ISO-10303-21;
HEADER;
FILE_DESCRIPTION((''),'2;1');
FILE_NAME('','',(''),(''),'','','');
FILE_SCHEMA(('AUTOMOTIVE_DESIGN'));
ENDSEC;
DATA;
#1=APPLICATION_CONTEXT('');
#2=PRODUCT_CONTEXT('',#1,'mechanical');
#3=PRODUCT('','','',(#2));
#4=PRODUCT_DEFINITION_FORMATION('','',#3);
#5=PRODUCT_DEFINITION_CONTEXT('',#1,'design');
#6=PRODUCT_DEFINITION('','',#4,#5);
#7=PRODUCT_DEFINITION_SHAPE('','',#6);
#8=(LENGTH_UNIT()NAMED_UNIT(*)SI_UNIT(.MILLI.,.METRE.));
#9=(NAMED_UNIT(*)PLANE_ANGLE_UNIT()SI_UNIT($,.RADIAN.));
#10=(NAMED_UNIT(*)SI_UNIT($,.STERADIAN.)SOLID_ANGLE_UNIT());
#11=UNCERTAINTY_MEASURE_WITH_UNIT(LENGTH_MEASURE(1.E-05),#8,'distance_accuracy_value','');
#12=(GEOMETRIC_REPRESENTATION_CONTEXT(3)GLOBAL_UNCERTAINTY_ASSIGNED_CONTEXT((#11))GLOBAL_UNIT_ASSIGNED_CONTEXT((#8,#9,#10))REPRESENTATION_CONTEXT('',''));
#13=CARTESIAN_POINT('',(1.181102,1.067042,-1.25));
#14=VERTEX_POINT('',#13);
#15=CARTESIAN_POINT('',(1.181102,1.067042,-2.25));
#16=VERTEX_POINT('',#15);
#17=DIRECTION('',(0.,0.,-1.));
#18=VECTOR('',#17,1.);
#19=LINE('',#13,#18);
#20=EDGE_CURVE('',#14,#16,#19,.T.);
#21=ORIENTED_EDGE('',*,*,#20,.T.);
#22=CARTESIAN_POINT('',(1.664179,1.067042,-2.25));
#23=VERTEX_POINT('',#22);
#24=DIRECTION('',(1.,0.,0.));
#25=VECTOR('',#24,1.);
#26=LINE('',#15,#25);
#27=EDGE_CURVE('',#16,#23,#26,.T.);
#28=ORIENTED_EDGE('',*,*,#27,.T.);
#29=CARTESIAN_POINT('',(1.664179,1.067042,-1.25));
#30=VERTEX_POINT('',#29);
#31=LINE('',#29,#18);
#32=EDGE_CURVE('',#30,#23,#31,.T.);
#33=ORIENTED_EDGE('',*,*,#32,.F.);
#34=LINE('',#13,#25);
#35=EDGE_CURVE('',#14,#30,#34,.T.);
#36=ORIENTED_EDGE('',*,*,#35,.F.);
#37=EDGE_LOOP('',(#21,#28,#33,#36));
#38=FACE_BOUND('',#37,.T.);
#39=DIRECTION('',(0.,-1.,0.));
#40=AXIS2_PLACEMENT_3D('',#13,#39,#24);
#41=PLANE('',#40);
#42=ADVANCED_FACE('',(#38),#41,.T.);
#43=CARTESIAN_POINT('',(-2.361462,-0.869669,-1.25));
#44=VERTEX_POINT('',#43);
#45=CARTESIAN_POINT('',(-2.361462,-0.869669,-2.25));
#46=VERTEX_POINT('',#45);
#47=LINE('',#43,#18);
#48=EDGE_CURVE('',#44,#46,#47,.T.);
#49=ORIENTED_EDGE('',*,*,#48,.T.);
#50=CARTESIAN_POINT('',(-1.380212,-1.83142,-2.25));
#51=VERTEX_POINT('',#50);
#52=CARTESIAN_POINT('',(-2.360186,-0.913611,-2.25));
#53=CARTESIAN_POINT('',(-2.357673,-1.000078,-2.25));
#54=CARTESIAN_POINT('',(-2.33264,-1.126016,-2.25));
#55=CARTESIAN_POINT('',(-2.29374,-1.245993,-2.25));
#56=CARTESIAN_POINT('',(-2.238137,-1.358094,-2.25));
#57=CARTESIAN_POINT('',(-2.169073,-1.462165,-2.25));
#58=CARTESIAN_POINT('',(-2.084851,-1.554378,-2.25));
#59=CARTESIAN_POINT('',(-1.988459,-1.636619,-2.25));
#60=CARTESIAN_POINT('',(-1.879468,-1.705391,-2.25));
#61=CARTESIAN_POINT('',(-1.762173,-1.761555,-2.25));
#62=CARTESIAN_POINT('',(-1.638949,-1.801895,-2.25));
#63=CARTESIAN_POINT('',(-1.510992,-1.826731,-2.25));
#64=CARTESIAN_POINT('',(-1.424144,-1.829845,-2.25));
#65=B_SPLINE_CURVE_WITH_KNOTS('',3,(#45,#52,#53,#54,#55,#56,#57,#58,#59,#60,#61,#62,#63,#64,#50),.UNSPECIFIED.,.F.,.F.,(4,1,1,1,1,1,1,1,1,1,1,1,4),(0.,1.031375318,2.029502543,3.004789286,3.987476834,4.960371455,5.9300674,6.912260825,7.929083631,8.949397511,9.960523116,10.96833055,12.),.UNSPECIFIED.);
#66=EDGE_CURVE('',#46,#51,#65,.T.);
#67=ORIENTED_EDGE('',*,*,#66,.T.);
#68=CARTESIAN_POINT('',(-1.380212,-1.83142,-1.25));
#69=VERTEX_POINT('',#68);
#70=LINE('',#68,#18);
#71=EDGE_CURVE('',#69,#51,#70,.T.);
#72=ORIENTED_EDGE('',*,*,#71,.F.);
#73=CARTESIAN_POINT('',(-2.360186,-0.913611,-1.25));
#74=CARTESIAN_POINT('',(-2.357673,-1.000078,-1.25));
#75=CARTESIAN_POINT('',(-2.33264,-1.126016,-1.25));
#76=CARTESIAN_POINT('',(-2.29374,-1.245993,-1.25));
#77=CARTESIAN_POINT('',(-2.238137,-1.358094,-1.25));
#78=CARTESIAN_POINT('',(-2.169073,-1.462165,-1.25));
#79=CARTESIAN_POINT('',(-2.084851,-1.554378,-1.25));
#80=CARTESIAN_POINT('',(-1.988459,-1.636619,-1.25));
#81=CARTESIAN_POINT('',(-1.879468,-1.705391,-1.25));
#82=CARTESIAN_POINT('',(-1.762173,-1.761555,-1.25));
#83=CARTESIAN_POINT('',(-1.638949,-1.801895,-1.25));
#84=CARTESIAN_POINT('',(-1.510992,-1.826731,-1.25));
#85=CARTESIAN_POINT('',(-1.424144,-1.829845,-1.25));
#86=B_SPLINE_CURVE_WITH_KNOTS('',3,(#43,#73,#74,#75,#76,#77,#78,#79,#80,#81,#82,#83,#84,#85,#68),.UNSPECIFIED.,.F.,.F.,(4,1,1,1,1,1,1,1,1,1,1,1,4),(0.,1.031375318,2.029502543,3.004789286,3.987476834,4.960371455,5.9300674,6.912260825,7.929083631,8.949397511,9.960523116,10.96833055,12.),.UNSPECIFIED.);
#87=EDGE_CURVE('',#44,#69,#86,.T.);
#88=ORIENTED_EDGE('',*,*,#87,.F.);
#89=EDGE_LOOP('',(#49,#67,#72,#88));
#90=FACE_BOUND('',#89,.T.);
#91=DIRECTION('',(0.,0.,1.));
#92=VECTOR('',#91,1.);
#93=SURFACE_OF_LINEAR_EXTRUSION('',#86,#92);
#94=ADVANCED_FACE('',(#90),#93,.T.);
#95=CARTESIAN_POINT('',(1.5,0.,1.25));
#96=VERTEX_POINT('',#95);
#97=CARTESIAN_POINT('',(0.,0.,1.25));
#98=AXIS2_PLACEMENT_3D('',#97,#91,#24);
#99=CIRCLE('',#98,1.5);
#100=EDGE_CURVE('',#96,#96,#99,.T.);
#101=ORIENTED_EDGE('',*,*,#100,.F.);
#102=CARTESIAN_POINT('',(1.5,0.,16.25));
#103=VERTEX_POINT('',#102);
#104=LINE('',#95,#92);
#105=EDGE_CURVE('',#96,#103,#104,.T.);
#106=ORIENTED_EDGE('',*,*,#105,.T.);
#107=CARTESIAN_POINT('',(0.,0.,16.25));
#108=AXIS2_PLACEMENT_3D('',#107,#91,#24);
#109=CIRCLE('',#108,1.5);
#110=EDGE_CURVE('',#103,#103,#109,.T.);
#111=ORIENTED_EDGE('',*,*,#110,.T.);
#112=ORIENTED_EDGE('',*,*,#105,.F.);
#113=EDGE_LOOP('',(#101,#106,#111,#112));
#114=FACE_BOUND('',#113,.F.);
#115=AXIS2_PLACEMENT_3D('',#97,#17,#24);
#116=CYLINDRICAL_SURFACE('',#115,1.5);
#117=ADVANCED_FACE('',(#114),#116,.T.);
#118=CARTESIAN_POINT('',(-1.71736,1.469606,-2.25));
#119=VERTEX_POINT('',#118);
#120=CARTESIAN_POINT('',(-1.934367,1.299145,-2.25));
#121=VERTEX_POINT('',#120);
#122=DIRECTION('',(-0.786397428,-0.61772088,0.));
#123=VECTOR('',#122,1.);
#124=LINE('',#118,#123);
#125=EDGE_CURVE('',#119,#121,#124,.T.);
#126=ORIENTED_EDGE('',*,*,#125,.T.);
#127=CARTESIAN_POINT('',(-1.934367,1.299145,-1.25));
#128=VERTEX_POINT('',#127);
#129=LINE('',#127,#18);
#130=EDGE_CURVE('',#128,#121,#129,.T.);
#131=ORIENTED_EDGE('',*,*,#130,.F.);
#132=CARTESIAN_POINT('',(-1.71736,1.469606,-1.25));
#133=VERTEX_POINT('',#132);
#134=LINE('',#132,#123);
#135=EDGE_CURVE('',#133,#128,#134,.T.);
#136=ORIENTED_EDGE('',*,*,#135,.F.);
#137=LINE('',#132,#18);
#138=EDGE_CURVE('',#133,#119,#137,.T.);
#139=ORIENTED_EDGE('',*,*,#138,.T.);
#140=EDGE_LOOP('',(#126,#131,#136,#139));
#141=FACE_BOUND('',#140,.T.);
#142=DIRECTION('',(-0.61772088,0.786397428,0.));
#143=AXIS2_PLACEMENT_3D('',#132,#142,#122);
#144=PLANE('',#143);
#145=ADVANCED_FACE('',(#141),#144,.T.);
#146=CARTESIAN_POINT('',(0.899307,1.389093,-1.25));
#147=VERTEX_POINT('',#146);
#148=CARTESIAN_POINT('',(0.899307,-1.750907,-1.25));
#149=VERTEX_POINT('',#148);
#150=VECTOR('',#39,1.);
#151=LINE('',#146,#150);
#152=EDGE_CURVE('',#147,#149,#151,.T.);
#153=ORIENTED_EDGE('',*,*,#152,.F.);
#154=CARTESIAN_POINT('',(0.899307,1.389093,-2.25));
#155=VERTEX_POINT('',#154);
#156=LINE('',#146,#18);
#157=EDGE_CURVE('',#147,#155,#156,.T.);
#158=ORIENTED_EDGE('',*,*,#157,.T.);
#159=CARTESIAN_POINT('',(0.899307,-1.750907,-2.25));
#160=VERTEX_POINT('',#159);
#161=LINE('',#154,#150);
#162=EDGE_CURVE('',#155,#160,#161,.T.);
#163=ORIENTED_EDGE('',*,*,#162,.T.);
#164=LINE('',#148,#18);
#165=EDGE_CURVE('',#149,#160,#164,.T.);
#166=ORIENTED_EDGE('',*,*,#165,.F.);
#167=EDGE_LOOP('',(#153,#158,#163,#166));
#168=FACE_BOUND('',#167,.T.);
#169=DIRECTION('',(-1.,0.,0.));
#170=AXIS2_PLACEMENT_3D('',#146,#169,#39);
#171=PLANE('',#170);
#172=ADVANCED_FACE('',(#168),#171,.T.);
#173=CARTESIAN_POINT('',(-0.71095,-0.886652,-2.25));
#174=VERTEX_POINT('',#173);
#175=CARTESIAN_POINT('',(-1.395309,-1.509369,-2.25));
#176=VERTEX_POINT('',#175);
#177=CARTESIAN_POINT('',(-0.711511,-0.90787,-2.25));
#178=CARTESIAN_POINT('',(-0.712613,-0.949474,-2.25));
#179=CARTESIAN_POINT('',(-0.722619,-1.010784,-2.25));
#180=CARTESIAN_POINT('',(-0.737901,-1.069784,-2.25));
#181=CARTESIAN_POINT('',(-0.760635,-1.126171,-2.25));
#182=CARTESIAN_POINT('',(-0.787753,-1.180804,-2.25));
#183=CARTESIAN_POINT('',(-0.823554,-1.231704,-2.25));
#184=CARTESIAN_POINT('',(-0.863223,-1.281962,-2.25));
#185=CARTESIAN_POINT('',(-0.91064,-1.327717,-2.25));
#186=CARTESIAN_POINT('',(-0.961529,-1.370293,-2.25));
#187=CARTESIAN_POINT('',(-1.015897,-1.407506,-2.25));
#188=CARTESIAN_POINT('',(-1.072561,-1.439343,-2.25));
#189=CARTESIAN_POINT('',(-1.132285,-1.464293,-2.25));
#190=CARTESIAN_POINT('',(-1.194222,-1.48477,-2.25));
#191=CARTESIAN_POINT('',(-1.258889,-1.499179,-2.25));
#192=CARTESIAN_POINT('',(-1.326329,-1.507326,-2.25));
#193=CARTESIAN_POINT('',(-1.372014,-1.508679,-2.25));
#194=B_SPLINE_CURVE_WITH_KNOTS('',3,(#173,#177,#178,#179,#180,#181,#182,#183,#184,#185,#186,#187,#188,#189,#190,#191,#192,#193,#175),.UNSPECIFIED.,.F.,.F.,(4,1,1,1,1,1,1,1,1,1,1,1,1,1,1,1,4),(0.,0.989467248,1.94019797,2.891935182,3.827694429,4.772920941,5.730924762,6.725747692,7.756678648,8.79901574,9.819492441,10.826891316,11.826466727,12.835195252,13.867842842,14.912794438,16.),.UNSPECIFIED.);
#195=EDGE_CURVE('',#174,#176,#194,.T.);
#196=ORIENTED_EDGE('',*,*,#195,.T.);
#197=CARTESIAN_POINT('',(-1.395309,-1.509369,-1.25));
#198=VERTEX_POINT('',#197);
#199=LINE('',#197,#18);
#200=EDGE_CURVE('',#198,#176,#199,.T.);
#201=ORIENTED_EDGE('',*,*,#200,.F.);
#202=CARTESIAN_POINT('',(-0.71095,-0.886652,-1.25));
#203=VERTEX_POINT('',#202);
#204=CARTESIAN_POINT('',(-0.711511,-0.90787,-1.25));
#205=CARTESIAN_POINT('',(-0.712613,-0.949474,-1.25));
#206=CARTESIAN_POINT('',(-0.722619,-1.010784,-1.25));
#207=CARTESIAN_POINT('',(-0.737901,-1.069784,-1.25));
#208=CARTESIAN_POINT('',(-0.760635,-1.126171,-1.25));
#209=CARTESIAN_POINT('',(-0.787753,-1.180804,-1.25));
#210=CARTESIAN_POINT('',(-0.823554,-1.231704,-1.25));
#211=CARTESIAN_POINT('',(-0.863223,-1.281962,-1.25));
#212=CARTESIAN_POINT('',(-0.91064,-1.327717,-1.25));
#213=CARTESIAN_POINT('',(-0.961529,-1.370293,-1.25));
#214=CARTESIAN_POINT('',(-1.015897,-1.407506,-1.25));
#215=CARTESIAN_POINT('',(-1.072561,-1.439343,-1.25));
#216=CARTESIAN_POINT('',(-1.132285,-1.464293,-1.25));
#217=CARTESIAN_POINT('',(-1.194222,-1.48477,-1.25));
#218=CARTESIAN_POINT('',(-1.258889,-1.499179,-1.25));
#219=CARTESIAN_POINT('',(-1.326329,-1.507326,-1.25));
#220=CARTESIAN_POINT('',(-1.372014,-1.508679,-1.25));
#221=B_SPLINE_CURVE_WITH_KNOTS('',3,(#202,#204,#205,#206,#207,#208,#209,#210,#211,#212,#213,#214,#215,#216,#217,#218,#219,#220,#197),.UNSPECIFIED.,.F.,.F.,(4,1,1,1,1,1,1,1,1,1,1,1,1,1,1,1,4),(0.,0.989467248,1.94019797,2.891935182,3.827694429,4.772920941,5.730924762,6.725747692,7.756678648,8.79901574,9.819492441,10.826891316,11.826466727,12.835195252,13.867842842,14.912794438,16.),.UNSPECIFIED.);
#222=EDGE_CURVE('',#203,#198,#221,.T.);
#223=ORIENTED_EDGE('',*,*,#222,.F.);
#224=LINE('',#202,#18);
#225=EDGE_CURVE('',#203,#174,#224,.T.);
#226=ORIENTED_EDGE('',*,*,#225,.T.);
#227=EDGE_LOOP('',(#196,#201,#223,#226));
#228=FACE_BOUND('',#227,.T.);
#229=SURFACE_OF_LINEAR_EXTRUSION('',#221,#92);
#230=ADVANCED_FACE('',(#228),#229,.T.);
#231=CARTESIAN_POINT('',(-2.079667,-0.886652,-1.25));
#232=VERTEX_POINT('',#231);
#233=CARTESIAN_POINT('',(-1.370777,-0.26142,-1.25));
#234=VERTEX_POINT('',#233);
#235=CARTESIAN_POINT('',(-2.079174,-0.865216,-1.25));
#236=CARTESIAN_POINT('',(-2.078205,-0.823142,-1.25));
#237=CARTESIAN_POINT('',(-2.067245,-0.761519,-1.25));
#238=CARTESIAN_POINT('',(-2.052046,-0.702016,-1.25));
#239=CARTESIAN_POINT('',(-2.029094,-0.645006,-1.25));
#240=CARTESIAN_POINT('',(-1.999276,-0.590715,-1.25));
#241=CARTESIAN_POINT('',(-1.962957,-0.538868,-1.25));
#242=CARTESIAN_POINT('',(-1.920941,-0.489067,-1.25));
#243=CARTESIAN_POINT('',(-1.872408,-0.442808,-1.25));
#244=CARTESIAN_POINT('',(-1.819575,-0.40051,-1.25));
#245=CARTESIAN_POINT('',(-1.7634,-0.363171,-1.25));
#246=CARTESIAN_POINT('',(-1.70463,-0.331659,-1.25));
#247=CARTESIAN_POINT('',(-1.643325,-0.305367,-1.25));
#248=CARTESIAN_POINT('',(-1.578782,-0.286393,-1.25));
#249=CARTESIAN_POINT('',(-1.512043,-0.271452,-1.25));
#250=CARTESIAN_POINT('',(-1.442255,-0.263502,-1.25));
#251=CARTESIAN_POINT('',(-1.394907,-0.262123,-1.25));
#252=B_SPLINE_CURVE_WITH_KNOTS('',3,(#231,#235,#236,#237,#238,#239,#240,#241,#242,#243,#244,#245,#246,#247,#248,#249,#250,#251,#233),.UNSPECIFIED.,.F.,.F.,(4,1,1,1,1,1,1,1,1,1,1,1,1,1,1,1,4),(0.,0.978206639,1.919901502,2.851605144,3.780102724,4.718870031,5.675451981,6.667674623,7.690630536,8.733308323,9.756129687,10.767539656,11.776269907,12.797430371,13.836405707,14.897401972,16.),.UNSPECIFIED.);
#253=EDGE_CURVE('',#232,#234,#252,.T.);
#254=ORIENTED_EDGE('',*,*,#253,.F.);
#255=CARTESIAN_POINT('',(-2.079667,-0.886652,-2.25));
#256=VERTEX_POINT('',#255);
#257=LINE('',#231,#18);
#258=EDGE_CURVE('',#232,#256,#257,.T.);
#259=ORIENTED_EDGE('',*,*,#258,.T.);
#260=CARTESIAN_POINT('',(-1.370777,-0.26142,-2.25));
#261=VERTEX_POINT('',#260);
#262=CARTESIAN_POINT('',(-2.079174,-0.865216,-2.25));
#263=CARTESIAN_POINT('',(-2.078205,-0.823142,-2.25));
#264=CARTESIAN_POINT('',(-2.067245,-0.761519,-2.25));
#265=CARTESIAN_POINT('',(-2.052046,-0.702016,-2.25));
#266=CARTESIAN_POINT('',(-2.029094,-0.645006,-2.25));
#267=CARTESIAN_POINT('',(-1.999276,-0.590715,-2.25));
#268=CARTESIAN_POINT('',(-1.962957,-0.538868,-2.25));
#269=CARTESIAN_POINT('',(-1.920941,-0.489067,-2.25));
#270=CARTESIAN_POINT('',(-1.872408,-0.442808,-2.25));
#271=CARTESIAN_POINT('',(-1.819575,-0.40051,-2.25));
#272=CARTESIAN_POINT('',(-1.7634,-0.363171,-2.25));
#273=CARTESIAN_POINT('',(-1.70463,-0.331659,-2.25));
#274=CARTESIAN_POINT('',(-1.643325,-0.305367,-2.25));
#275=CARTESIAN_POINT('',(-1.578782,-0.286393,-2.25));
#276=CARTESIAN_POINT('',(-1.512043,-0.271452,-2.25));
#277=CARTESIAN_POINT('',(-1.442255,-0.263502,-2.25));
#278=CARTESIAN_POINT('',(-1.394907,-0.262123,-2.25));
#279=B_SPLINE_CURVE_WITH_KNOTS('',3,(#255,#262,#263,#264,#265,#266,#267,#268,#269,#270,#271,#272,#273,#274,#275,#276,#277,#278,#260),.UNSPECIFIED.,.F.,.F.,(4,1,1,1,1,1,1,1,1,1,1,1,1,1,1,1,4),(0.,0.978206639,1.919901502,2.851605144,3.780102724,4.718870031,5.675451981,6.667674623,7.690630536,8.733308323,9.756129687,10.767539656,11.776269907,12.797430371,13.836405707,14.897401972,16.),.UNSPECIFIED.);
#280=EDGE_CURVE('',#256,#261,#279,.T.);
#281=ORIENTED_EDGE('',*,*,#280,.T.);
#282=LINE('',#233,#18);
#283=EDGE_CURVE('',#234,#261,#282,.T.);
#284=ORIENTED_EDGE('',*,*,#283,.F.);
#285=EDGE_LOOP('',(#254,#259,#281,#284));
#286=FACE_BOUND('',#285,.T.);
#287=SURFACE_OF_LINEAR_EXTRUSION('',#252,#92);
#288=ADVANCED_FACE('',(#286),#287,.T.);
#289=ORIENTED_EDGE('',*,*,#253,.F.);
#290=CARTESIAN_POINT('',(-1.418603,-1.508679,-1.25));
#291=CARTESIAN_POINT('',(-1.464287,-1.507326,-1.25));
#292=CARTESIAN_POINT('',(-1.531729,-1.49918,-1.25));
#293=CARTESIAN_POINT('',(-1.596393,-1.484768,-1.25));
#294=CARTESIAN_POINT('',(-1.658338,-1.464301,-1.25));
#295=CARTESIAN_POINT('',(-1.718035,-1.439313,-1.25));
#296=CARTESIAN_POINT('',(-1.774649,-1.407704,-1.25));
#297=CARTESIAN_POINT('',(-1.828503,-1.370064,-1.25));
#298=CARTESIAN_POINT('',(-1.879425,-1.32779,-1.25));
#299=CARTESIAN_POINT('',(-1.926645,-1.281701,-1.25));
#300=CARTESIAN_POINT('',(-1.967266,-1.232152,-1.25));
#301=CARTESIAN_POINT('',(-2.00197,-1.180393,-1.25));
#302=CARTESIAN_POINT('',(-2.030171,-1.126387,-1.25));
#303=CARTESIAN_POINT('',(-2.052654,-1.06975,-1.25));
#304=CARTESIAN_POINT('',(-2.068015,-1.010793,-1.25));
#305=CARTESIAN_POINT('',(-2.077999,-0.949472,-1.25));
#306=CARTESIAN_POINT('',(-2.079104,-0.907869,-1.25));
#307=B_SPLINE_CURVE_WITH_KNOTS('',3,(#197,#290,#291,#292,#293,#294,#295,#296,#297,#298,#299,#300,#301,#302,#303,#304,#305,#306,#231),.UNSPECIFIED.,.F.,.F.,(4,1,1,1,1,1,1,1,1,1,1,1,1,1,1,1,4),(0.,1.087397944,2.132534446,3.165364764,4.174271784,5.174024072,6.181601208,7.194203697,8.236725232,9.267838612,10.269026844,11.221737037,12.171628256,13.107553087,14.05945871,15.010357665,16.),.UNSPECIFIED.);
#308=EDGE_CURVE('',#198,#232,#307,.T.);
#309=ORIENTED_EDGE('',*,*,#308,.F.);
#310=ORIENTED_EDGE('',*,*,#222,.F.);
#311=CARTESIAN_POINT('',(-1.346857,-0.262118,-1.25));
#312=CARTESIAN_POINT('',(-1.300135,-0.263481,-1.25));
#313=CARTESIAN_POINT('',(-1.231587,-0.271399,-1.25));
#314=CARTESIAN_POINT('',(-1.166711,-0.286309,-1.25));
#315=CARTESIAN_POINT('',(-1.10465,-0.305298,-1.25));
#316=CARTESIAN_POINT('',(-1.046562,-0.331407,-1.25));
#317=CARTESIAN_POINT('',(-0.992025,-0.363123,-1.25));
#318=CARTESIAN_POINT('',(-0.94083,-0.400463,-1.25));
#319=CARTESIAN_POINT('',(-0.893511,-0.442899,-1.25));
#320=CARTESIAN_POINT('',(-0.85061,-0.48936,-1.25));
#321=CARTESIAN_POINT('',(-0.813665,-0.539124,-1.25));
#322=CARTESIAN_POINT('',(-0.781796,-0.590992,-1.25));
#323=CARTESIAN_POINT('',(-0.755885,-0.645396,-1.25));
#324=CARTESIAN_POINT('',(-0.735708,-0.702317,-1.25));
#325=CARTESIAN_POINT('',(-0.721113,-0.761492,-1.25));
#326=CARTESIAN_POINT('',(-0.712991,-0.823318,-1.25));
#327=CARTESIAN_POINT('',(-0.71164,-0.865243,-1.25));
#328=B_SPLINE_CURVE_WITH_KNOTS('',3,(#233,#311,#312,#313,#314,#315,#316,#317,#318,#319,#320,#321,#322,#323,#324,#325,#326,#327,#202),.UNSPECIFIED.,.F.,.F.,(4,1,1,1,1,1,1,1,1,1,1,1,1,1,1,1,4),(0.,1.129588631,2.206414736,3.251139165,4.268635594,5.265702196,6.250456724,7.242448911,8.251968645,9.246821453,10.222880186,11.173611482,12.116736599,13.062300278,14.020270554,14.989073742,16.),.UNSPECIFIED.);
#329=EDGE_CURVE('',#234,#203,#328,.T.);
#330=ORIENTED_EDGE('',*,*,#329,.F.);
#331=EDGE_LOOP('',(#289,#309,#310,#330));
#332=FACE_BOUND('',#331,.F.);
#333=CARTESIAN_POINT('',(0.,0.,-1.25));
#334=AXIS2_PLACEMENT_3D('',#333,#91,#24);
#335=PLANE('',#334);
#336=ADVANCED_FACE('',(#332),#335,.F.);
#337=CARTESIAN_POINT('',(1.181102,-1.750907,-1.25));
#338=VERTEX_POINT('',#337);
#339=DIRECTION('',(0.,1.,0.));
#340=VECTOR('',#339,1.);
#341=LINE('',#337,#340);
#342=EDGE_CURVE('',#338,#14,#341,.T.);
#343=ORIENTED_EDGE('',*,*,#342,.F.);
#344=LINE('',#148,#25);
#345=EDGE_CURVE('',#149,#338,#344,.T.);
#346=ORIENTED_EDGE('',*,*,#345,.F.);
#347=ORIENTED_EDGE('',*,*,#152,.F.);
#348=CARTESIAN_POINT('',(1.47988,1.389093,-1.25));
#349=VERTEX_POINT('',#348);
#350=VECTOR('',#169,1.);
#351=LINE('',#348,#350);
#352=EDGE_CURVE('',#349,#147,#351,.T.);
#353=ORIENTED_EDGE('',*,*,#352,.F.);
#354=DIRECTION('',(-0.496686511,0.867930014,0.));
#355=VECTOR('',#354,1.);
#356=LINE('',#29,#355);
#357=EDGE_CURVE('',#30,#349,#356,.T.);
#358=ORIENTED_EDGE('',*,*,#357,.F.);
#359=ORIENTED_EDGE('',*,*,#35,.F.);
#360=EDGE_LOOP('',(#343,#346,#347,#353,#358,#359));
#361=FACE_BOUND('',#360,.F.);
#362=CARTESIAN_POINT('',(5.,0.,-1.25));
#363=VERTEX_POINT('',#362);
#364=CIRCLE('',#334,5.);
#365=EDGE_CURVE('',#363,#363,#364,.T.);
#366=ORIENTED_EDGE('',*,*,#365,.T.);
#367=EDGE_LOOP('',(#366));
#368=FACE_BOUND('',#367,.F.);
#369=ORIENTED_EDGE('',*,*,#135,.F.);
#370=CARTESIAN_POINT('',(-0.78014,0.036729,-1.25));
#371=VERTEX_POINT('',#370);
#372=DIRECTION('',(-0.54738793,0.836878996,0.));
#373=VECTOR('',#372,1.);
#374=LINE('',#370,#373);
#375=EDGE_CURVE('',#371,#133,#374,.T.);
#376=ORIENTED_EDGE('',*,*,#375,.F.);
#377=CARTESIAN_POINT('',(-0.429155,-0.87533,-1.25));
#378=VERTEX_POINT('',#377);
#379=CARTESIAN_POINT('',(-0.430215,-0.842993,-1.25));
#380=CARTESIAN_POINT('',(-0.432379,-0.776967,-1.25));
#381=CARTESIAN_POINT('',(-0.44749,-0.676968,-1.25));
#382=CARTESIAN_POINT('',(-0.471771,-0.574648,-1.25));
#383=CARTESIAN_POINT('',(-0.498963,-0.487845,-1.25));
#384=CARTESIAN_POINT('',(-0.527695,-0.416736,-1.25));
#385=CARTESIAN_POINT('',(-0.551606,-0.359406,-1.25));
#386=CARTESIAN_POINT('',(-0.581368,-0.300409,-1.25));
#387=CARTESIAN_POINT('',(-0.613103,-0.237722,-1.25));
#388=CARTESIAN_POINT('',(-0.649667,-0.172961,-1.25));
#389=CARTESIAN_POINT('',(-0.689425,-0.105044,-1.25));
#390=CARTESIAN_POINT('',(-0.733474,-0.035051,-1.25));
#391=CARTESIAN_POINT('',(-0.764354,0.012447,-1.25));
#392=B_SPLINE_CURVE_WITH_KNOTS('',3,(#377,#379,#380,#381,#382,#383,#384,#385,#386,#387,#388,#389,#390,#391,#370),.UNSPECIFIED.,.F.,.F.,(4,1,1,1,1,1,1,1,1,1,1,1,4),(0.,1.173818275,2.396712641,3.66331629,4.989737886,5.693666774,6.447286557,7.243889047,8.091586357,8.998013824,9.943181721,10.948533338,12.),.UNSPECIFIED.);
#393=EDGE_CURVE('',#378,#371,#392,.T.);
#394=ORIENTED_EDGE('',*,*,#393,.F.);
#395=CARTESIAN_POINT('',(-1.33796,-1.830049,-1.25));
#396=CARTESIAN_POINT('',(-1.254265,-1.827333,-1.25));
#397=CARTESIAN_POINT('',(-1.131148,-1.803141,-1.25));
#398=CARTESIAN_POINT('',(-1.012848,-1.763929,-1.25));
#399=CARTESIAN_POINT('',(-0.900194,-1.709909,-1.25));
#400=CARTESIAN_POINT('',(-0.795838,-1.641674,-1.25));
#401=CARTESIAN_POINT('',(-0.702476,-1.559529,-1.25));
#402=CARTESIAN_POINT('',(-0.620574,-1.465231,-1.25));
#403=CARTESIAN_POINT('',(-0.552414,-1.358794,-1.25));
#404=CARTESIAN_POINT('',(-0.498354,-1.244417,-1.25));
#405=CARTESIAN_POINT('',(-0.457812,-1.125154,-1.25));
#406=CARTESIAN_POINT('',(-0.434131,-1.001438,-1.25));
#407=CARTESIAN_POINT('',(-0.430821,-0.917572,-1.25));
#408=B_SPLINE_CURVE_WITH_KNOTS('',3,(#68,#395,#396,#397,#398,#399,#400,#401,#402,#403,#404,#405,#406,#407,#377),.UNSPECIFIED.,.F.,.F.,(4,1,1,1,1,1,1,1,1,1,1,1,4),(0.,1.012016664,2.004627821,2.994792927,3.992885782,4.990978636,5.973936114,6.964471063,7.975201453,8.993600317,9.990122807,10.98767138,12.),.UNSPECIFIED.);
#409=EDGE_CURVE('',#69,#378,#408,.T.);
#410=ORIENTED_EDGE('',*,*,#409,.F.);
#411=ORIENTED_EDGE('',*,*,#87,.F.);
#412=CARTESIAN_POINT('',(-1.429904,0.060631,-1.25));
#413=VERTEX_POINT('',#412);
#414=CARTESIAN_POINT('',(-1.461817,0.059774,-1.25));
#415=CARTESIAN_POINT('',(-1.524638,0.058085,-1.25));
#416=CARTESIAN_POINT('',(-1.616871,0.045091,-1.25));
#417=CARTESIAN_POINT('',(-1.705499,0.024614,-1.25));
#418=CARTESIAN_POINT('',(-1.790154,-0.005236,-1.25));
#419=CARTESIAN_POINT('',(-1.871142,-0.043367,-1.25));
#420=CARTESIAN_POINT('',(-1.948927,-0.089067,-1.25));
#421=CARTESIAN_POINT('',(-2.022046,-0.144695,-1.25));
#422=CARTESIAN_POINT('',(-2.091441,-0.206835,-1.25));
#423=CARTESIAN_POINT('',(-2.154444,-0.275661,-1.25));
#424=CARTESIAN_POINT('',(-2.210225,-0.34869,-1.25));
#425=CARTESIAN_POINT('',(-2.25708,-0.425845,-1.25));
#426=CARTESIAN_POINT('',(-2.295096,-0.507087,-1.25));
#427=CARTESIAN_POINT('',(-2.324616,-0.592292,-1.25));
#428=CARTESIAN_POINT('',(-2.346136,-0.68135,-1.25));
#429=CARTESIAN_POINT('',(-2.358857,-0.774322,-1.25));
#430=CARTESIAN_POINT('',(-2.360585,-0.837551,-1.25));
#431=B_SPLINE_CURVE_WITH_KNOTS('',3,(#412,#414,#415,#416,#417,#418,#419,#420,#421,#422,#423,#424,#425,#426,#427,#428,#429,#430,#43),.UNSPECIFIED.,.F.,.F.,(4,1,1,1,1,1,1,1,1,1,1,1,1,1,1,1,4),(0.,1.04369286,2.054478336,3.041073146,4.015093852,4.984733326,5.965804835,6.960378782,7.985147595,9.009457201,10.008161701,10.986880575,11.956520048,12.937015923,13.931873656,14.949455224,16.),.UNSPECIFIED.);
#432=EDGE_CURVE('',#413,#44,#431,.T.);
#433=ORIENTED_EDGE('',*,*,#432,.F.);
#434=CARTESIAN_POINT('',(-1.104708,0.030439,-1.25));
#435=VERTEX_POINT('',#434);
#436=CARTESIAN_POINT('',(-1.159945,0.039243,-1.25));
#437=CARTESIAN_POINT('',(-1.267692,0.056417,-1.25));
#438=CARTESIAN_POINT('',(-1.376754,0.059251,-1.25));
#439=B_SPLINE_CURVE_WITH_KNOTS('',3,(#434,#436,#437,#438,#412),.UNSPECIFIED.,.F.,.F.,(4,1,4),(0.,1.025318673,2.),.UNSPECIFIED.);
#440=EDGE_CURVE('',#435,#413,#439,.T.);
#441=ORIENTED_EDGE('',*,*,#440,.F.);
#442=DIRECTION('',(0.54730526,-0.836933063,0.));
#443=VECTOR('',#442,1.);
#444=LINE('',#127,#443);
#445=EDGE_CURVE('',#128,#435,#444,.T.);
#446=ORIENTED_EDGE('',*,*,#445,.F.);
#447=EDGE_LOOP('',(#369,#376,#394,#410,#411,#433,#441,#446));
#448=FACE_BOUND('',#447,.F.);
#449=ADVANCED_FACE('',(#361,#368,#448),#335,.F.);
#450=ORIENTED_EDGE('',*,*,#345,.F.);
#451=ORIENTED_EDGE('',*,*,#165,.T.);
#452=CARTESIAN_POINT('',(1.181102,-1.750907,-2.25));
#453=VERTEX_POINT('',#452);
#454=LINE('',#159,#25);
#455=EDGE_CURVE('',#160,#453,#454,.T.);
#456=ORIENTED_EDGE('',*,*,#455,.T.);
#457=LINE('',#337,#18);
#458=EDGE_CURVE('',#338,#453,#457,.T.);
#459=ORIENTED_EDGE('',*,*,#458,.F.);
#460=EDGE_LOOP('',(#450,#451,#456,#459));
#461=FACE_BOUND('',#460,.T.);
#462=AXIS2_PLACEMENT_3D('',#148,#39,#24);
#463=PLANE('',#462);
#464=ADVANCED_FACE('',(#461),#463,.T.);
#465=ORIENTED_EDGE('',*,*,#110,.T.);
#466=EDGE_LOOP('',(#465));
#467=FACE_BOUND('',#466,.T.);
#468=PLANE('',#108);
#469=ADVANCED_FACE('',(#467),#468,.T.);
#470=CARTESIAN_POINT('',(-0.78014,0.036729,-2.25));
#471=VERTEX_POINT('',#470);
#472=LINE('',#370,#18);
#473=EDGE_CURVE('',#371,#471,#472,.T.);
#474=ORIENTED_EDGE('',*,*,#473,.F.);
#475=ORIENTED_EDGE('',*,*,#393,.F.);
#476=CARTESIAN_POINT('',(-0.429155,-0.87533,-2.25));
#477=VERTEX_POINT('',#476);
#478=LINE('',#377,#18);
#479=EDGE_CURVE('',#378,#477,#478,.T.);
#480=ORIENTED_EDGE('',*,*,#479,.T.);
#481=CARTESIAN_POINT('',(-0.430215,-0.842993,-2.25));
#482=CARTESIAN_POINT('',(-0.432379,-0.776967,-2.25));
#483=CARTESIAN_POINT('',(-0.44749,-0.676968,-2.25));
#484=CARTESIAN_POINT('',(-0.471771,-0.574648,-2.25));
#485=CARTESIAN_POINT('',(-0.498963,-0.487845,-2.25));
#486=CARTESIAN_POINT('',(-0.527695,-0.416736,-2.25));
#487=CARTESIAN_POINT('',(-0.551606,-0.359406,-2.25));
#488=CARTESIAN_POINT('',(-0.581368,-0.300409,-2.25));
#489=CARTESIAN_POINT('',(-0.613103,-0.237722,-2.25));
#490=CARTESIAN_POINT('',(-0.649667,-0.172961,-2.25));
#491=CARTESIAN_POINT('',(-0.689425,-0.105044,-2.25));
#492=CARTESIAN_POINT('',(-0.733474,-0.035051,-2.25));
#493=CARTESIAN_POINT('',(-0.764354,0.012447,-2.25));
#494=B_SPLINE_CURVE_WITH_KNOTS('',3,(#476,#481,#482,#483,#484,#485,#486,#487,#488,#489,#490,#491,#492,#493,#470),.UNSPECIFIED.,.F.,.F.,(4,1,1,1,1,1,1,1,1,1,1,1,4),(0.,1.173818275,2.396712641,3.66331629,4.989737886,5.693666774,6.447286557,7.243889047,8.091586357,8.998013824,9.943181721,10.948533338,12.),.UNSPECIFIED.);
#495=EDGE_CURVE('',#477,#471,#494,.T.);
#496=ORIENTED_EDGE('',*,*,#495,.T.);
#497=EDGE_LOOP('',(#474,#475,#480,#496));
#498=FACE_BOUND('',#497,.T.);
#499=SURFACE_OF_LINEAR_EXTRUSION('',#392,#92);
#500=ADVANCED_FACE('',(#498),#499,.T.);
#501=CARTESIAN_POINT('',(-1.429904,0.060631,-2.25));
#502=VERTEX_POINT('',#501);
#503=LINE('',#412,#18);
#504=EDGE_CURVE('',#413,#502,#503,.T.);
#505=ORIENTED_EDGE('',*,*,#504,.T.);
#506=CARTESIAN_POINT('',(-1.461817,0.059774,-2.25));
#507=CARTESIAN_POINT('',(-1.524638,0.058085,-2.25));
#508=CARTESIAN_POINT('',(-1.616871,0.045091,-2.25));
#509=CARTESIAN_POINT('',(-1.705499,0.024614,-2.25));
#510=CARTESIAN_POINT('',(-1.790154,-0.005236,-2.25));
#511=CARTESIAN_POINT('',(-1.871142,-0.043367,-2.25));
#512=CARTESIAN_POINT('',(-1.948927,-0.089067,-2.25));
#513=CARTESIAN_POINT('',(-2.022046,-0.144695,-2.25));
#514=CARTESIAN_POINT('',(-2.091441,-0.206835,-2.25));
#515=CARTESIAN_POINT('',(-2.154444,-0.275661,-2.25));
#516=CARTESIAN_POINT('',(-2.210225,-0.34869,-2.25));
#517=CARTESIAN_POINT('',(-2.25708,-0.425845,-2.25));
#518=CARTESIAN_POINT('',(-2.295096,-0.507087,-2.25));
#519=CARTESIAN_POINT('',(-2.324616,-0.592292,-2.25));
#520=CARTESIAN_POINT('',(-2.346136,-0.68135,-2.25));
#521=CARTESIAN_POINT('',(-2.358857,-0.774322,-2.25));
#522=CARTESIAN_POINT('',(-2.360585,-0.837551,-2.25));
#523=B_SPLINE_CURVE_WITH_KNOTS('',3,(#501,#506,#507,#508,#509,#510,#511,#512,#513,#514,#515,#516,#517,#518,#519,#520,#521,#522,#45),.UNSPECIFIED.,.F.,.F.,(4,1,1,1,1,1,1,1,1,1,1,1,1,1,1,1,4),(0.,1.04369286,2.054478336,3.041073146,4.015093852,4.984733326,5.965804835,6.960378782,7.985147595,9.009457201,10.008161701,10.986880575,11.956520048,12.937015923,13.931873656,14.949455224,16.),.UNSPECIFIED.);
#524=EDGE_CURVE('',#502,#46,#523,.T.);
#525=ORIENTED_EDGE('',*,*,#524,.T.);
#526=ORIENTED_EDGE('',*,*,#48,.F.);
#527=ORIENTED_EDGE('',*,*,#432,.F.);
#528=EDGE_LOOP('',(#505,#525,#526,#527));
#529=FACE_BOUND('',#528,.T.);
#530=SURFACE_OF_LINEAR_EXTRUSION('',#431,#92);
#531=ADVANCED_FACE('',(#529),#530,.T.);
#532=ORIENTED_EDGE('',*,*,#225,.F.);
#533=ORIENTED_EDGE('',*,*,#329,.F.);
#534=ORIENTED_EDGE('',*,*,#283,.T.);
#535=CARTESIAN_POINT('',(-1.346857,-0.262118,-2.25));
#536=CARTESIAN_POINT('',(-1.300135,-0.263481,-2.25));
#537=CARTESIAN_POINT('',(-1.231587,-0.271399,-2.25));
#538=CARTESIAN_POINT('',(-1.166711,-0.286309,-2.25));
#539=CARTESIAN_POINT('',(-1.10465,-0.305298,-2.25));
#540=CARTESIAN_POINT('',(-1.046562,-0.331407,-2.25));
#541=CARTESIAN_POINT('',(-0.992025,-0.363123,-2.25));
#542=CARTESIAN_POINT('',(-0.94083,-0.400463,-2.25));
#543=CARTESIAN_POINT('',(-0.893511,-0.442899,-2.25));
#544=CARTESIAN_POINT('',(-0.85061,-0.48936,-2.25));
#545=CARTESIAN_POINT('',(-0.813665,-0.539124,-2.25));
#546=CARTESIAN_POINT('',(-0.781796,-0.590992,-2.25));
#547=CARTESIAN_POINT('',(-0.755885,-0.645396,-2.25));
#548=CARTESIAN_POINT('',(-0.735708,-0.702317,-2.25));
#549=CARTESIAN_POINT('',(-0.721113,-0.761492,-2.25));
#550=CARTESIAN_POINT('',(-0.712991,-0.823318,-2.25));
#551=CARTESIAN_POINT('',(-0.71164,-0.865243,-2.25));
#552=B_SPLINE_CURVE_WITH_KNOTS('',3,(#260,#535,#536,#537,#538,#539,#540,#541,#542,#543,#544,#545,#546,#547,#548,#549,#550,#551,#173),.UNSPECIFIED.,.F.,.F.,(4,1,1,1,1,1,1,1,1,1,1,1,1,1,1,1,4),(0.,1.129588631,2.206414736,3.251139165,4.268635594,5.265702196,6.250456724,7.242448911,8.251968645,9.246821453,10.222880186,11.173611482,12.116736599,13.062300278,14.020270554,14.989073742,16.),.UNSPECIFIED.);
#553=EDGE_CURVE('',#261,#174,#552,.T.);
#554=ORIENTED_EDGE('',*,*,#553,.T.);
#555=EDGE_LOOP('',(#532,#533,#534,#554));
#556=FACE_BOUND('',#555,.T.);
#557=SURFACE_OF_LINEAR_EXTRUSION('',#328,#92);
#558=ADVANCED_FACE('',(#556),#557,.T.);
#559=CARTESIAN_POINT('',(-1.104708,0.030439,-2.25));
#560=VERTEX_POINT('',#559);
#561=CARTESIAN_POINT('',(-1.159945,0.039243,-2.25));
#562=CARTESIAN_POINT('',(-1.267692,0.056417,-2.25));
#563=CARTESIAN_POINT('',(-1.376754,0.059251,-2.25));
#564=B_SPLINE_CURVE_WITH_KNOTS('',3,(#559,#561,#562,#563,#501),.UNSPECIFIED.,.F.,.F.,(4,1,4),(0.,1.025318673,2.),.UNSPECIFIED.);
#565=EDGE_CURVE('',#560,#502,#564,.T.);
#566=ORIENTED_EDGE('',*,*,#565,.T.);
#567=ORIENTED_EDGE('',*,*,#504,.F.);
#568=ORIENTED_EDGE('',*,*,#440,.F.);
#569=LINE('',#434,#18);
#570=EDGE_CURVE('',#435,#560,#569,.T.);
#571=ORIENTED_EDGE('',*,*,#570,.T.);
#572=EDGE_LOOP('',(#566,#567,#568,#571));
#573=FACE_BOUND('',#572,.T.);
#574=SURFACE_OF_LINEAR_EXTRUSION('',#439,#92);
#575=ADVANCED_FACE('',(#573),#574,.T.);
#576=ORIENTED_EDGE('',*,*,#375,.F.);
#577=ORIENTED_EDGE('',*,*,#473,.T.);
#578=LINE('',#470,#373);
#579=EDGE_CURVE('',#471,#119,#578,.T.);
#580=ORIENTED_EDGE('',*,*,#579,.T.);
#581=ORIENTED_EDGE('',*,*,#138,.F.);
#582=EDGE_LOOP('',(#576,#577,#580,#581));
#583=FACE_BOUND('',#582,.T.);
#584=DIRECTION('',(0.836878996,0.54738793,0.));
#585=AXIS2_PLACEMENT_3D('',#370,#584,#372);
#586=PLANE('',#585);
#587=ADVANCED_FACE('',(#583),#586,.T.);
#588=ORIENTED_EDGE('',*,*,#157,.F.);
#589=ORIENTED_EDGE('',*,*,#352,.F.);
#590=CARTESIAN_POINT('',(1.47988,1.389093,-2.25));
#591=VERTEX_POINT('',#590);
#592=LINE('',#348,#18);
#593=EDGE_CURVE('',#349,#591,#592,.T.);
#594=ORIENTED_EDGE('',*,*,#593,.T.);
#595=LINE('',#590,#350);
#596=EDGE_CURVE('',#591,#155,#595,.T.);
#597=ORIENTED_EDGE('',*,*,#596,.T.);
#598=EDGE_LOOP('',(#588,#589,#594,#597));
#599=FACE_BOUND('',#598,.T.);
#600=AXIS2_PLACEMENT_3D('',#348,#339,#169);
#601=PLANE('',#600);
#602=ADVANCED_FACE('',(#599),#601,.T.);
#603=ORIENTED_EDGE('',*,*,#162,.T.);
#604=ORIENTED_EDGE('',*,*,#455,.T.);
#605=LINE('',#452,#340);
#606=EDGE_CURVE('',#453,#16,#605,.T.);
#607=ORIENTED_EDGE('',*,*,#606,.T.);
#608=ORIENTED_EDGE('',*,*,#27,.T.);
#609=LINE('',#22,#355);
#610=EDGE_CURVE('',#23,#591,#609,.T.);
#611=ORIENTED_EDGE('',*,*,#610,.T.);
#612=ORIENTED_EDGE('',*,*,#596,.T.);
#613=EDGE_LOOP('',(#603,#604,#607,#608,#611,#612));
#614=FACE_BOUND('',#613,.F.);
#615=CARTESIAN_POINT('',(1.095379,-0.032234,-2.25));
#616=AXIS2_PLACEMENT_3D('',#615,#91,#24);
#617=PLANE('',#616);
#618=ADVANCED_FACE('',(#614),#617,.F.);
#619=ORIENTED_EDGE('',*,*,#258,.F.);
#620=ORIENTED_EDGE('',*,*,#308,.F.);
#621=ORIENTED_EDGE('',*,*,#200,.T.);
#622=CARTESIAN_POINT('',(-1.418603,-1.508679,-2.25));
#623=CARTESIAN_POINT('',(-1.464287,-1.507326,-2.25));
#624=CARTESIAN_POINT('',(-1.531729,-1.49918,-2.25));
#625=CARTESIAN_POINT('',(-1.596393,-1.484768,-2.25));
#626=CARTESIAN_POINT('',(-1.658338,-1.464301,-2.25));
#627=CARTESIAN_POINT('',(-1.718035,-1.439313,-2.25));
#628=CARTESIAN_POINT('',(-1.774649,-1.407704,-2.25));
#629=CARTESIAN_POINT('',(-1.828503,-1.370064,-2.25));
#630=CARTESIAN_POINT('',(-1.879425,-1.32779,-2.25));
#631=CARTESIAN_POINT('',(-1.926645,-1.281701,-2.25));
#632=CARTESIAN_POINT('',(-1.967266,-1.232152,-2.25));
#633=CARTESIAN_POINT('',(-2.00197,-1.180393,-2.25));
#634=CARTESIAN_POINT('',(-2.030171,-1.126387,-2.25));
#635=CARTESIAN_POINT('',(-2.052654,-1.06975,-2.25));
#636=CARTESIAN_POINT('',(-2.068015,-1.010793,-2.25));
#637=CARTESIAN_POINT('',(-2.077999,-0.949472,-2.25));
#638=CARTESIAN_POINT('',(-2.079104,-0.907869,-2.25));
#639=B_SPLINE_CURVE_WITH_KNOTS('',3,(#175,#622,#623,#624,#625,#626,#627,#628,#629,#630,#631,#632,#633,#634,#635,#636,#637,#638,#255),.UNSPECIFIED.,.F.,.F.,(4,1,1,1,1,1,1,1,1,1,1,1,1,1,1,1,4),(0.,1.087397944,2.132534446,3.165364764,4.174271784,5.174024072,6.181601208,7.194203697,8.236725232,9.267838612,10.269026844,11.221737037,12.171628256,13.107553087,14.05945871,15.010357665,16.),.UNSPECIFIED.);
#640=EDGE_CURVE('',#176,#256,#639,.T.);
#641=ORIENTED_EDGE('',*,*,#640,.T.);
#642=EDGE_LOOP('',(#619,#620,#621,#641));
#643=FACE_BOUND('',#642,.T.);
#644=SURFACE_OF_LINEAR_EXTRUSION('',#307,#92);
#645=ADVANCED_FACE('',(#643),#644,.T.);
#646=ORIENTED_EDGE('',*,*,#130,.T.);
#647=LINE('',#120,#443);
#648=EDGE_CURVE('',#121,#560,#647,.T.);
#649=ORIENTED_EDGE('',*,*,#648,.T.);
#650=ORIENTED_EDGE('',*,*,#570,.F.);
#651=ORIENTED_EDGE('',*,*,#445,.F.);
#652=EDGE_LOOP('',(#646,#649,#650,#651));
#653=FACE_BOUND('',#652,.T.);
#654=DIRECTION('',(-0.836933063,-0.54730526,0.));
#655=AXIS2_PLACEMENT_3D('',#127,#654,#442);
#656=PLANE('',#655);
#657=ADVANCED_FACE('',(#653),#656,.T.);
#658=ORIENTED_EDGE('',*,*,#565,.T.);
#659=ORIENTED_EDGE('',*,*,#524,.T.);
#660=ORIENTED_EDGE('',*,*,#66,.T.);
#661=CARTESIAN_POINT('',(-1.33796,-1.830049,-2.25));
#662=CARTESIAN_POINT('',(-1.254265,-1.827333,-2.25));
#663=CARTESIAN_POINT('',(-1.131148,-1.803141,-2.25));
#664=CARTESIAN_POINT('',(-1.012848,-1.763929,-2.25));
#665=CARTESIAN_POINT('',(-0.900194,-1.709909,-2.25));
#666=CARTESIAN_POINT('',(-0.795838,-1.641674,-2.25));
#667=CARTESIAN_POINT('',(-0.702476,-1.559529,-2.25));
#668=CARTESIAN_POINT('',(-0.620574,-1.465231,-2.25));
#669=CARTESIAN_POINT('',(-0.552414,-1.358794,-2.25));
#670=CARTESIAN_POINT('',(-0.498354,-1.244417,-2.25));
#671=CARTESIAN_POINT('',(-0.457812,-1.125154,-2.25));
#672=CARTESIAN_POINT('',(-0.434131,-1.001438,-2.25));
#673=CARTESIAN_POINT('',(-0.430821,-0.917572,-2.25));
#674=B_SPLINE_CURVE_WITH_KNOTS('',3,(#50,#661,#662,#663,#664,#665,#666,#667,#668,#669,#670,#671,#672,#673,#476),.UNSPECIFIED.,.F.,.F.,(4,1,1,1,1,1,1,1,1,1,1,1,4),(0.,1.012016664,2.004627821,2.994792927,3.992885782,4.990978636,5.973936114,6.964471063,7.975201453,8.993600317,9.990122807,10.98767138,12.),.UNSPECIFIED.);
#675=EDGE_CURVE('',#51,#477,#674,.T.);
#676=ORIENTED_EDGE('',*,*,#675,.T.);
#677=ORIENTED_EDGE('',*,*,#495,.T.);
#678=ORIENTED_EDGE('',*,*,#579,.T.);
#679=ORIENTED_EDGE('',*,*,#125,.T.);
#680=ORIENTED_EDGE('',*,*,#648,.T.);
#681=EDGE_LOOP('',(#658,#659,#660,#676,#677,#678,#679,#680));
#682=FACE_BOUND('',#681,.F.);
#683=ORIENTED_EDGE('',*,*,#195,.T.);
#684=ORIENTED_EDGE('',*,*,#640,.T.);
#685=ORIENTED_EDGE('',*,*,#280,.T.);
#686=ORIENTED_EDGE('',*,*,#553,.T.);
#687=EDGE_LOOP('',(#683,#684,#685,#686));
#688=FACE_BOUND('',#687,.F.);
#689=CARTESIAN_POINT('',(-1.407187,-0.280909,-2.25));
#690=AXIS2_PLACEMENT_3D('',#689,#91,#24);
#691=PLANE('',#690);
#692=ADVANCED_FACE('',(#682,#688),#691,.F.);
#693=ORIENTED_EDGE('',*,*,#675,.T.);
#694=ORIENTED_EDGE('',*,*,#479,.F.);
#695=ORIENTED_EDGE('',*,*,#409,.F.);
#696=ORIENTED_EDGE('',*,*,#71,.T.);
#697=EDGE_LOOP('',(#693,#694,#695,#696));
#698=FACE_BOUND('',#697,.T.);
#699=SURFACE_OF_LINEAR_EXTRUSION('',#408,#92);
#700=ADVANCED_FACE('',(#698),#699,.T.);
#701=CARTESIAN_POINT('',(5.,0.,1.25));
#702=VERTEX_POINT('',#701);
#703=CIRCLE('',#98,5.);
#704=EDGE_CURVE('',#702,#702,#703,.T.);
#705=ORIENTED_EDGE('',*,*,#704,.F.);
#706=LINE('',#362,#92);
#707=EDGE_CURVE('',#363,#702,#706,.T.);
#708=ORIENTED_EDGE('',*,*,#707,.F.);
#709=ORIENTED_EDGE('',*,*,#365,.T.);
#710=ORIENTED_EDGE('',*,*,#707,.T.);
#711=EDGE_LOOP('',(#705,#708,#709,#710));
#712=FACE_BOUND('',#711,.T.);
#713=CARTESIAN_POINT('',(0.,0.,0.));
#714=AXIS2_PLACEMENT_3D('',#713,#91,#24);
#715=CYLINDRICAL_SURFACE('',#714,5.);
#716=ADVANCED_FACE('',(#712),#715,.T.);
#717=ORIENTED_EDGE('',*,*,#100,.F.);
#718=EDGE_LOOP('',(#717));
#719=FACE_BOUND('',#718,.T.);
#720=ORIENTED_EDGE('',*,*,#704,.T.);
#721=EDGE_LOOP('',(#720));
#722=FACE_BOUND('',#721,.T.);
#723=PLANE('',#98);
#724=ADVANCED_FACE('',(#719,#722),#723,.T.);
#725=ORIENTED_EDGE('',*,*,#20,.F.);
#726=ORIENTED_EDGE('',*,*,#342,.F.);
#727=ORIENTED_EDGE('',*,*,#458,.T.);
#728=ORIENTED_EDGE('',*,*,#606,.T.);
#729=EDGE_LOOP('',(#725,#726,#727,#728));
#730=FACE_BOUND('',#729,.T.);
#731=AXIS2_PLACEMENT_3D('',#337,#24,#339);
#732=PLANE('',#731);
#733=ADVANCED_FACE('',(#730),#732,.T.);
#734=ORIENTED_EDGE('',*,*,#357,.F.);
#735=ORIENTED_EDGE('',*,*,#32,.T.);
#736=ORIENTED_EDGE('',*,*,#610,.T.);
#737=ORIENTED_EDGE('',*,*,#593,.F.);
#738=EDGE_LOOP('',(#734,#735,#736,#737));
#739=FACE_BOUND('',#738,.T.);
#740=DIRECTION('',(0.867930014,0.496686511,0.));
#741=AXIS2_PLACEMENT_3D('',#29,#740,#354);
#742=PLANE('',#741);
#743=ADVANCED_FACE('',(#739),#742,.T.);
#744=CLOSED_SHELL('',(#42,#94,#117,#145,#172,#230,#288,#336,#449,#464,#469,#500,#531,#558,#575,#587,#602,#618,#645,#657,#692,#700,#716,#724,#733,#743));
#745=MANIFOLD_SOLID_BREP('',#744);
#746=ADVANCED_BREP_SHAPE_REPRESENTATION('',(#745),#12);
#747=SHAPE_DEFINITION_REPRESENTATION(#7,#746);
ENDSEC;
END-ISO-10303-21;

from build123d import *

# Parameters (mm, degrees)
SKETCH1_R           = 5
BOSS_EXTRUDE1_DEPTH = 1.25
SKETCH2_R           = 1.5
BOSS_EXTRUDE2_DEPTH = 15
BOSS_EXTRUDE3_DEPTH = 1


with BuildPart() as part:
    # Sketch1 → Boss-Extrude1 (new, symmetric)
    with BuildSketch(Plane.XY):
        Circle(SKETCH1_R)
    extrude(amount=BOSS_EXTRUDE1_DEPTH, both=True)

    # Sketch2 → Boss-Extrude2 (add)
    with BuildSketch(Plane.XY.offset(1.25)):
        Circle(SKETCH2_R)
    extrude(amount=BOSS_EXTRUDE2_DEPTH)

    # Sketch3 → Boss-Extrude3 (add)
    # profile 1 of 2: a face of its own
    with BuildSketch(Plane(origin=(0, 0, -1.25), x_dir=(-1, 0, 0), z_dir=(0, 0, -1))):
        Polygon((-1.479879797, 1.389092813), (-0.89930688, 1.389092813), (-0.89930688, -1.750907187), (-1.181101752, -1.750907187), (-1.181101752, 1.067041531), (-1.664178675, 1.067041531), align=None)
    # profile 2 of 2: a face of its own
    with BuildSketch(Plane(origin=(0, 0, -1.25), x_dir=(-1, 0, 0), z_dir=(0, 0, -1))):
        with BuildLine():
            Line((1.717359786, 1.469605634), (1.934366998, 1.299144896))
            Line((1.934366998, 1.299144896), (1.104707543, 0.030438967))
            add(Edge.make_bspline(
                [(1.104707543, 0.030438967), (1.159944877, 0.039243402), (1.267691543, 0.056417448), (1.37675352, 0.059250576), (1.429903857, 0.060631275)],
                knots=[0, 0, 0, 0, 1.025318673, 2, 2, 2, 2], degree=3))
            add(Edge.make_bspline(
                [(1.429903857, 0.060631275), (1.461817468, 0.059773506), (1.524638462, 0.058085014), (1.61687085, 0.04509093), (1.705498638, 0.024613544), (1.790154484, -0.005236423), (1.871142245, -0.043367106), (1.948926681, -0.08906655), (2.022045627, -0.144694503), (2.091440685, -0.206835063), (2.154444424, -0.275661158), (2.210225228, -0.348689786), (2.257080121, -0.425844862), (2.295095582, -0.507087307), (2.324615959, -0.592291889), (2.346136303, -0.681349591), (2.358857424, -0.774321825), (2.360584864, -0.837550817), (2.361462351, -0.869669206)],
                knots=[0, 0, 0, 0, 1.04369286, 2.054478336, 3.041073146, 4.015093852, 4.984733326, 5.965804835, 6.960378782, 7.985147595, 9.009457201, 10.008161701, 10.986880575, 11.956520048, 12.937015923, 13.931873656, 14.949455224, 16, 16, 16, 16], degree=3))
            add(Edge.make_bspline(
                [(2.361462351, -0.869669206), (2.360185622, -0.913610998), (2.357673323, -1.000078044), (2.332639632, -1.126016004), (2.293739836, -1.245993175), (2.238137139, -1.35809402), (2.169072944, -1.462164897), (2.084851332, -1.554378143), (1.988459174, -1.636619262), (1.879468161, -1.7053912), (1.762173045, -1.76155508), (1.638948681, -1.801895326), (1.510991756, -1.826731353), (1.424144193, -1.829844979), (1.380212351, -1.831420007)],
                knots=[0, 0, 0, 0, 1.031375318, 2.029502543, 3.004789286, 3.987476834, 4.960371455, 5.9300674, 6.912260825, 7.929083631, 8.949397511, 9.960523116, 10.96833055, 12, 12, 12, 12], degree=3))
            add(Edge.make_bspline(
                [(1.380212351, -1.831420007), (1.337959882, -1.830048989), (1.25426514, -1.82733324), (1.131147718, -1.803140942), (1.012847754, -1.763929427), (0.900194081, -1.709908617), (0.795837874, -1.64167383), (0.702476132, -1.559529386), (0.620574368, -1.46523118), (0.55241428, -1.35879384), (0.498353589, -1.244417135), (0.45781177, -1.125153515), (0.434130569, -1.001437531), (0.430821407, -0.917571595), (0.429154658, -0.875330264)],
                knots=[0, 0, 0, 0, 1.012016664, 2.004627821, 2.994792927, 3.992885782, 4.990978636, 5.973936114, 6.964471063, 7.975201453, 8.993600317, 9.990122807, 10.98767138, 12, 12, 12, 12], degree=3))
            add(Edge.make_bspline(
                [(0.429154658, -0.875330264), (0.430214583, -0.842993123), (0.432378747, -0.776966861), (0.447489675, -0.676967705), (0.471770662, -0.574647592), (0.498963283, -0.487845258), (0.52769483, -0.41673635), (0.551605966, -0.359405789), (0.58136778, -0.300408712), (0.613102756, -0.237722079), (0.64966749, -0.172961434), (0.689424958, -0.105044427), (0.733474359, -0.035051201), (0.764354162, 0.012447306), (0.780140235, 0.036729031)],
                knots=[0, 0, 0, 0, 1.173818275, 2.396712641, 3.66331629, 4.989737886, 5.693666774, 6.447286557, 7.243889047, 8.091586357, 8.998013824, 9.943181721, 10.948533338, 12, 12, 12, 12], degree=3))
            Line((0.780140235, 0.036729031), (1.717359786, 1.469605634))
        make_face()
        with BuildLine():
            add(Edge.make_bspline(
                [(1.370777254, -0.261420007), (1.346857412, -0.262118024), (1.300135011, -0.263481452), (1.231586645, -0.271398964), (1.166711328, -0.28630864), (1.104649556, -0.305297864), (1.046561617, -0.331407466), (0.992025344, -0.36312308), (0.94082984, -0.400463222), (0.893511339, -0.442898897), (0.85061027, -0.489360161), (0.813664912, -0.539124246), (0.781796245, -0.590991846), (0.755885127, -0.645396331), (0.735708317, -0.702316905), (0.721113372, -0.761491774), (0.712990863, -0.823317752), (0.711639558, -0.865243483), (0.71094953, -0.886652379)],
                knots=[0, 0, 0, 0, 1.129588631, 2.206414736, 3.251139165, 4.268635594, 5.265702196, 6.250456724, 7.242448911, 8.251968645, 9.246821453, 10.222880186, 11.173611482, 12.116736599, 13.062300278, 14.020270554, 14.989073742, 16, 16, 16, 16], degree=3))
            add(Edge.make_bspline(
                [(0.71094953, -0.886652379), (0.711511466, -0.90786979), (0.712613338, -0.949473973), (0.722618562, -1.01078398), (0.737901465, -1.069784498), (0.76063542, -1.126171361), (0.787753257, -1.180804057), (0.823554033, -1.231703714), (0.863222807, -1.281961719), (0.910640336, -1.327717325), (0.961529296, -1.370292696), (1.015897231, -1.40750641), (1.072560738, -1.439342577), (1.132284814, -1.464293104), (1.194222107, -1.48476975), (1.258888661, -1.499179191), (1.326329452, -1.507325721), (1.372013705, -1.508678786), (1.395308504, -1.509368725)],
                knots=[0, 0, 0, 0, 0.989467248, 1.94019797, 2.891935182, 3.827694429, 4.772920941, 5.730924762, 6.725747692, 7.756678648, 8.79901574, 9.819492441, 10.826891316, 11.826466727, 12.835195252, 13.867842842, 14.912794438, 16, 16, 16, 16], degree=3))
            add(Edge.make_bspline(
                [(1.395308504, -1.509368725), (1.418603266, -1.508678732), (1.464287444, -1.50732556), (1.531728777, -1.4991798), (1.596393326, -1.484767516), (1.658337908, -1.464301202), (1.718035077, -1.439312535), (1.774649027, -1.40770447), (1.828502803, -1.370063839), (1.879425169, -1.327790083), (1.926645331, -1.281701296), (1.967265518, -1.232152345), (2.001969905, -1.180392679), (2.030170861, -1.126386572), (2.05265442, -1.069750403), (2.068014822, -1.010793114), (2.077999384, -0.949471582), (2.079104095, -0.907868982), (2.079667479, -0.886652379)],
                knots=[0, 0, 0, 0, 1.087397944, 2.132534446, 3.165364764, 4.174271784, 5.174024072, 6.181601208, 7.194203697, 8.236725232, 9.267838612, 10.269026844, 11.221737037, 12.171628256, 13.107553087, 14.05945871, 15.010357665, 16, 16, 16, 16], degree=3))
            add(Edge.make_bspline(
                [(2.079667479, -0.886652379), (2.079173787, -0.865215554), (2.078204832, -0.823142036), (2.067245381, -0.76151943), (2.052045651, -0.702016245), (2.029094018, -0.645006451), (1.999276089, -0.590715019), (1.96295669, -0.538867697), (1.920941184, -0.489066986), (1.872407962, -0.44280778), (1.81957501, -0.400510116), (1.763399884, -0.363171428), (1.704629874, -0.331659306), (1.643324565, -0.305366649), (1.578781522, -0.286392549), (1.512042761, -0.271452211), (1.442254697, -0.263501715), (1.39490654, -0.262122748), (1.370777254, -0.261420007)],
                knots=[0, 0, 0, 0, 0.978206639, 1.919901502, 2.851605144, 3.780102724, 4.718870031, 5.675451981, 6.667674623, 7.690630536, 8.733308323, 9.756129687, 10.767539656, 11.776269907, 12.797430371, 13.836405707, 14.897401972, 16, 16, 16, 16], degree=3))
        make_face(mode=Mode.SUBTRACT)
    extrude(amount=BOSS_EXTRUDE3_DEPTH)


solid = part.part
